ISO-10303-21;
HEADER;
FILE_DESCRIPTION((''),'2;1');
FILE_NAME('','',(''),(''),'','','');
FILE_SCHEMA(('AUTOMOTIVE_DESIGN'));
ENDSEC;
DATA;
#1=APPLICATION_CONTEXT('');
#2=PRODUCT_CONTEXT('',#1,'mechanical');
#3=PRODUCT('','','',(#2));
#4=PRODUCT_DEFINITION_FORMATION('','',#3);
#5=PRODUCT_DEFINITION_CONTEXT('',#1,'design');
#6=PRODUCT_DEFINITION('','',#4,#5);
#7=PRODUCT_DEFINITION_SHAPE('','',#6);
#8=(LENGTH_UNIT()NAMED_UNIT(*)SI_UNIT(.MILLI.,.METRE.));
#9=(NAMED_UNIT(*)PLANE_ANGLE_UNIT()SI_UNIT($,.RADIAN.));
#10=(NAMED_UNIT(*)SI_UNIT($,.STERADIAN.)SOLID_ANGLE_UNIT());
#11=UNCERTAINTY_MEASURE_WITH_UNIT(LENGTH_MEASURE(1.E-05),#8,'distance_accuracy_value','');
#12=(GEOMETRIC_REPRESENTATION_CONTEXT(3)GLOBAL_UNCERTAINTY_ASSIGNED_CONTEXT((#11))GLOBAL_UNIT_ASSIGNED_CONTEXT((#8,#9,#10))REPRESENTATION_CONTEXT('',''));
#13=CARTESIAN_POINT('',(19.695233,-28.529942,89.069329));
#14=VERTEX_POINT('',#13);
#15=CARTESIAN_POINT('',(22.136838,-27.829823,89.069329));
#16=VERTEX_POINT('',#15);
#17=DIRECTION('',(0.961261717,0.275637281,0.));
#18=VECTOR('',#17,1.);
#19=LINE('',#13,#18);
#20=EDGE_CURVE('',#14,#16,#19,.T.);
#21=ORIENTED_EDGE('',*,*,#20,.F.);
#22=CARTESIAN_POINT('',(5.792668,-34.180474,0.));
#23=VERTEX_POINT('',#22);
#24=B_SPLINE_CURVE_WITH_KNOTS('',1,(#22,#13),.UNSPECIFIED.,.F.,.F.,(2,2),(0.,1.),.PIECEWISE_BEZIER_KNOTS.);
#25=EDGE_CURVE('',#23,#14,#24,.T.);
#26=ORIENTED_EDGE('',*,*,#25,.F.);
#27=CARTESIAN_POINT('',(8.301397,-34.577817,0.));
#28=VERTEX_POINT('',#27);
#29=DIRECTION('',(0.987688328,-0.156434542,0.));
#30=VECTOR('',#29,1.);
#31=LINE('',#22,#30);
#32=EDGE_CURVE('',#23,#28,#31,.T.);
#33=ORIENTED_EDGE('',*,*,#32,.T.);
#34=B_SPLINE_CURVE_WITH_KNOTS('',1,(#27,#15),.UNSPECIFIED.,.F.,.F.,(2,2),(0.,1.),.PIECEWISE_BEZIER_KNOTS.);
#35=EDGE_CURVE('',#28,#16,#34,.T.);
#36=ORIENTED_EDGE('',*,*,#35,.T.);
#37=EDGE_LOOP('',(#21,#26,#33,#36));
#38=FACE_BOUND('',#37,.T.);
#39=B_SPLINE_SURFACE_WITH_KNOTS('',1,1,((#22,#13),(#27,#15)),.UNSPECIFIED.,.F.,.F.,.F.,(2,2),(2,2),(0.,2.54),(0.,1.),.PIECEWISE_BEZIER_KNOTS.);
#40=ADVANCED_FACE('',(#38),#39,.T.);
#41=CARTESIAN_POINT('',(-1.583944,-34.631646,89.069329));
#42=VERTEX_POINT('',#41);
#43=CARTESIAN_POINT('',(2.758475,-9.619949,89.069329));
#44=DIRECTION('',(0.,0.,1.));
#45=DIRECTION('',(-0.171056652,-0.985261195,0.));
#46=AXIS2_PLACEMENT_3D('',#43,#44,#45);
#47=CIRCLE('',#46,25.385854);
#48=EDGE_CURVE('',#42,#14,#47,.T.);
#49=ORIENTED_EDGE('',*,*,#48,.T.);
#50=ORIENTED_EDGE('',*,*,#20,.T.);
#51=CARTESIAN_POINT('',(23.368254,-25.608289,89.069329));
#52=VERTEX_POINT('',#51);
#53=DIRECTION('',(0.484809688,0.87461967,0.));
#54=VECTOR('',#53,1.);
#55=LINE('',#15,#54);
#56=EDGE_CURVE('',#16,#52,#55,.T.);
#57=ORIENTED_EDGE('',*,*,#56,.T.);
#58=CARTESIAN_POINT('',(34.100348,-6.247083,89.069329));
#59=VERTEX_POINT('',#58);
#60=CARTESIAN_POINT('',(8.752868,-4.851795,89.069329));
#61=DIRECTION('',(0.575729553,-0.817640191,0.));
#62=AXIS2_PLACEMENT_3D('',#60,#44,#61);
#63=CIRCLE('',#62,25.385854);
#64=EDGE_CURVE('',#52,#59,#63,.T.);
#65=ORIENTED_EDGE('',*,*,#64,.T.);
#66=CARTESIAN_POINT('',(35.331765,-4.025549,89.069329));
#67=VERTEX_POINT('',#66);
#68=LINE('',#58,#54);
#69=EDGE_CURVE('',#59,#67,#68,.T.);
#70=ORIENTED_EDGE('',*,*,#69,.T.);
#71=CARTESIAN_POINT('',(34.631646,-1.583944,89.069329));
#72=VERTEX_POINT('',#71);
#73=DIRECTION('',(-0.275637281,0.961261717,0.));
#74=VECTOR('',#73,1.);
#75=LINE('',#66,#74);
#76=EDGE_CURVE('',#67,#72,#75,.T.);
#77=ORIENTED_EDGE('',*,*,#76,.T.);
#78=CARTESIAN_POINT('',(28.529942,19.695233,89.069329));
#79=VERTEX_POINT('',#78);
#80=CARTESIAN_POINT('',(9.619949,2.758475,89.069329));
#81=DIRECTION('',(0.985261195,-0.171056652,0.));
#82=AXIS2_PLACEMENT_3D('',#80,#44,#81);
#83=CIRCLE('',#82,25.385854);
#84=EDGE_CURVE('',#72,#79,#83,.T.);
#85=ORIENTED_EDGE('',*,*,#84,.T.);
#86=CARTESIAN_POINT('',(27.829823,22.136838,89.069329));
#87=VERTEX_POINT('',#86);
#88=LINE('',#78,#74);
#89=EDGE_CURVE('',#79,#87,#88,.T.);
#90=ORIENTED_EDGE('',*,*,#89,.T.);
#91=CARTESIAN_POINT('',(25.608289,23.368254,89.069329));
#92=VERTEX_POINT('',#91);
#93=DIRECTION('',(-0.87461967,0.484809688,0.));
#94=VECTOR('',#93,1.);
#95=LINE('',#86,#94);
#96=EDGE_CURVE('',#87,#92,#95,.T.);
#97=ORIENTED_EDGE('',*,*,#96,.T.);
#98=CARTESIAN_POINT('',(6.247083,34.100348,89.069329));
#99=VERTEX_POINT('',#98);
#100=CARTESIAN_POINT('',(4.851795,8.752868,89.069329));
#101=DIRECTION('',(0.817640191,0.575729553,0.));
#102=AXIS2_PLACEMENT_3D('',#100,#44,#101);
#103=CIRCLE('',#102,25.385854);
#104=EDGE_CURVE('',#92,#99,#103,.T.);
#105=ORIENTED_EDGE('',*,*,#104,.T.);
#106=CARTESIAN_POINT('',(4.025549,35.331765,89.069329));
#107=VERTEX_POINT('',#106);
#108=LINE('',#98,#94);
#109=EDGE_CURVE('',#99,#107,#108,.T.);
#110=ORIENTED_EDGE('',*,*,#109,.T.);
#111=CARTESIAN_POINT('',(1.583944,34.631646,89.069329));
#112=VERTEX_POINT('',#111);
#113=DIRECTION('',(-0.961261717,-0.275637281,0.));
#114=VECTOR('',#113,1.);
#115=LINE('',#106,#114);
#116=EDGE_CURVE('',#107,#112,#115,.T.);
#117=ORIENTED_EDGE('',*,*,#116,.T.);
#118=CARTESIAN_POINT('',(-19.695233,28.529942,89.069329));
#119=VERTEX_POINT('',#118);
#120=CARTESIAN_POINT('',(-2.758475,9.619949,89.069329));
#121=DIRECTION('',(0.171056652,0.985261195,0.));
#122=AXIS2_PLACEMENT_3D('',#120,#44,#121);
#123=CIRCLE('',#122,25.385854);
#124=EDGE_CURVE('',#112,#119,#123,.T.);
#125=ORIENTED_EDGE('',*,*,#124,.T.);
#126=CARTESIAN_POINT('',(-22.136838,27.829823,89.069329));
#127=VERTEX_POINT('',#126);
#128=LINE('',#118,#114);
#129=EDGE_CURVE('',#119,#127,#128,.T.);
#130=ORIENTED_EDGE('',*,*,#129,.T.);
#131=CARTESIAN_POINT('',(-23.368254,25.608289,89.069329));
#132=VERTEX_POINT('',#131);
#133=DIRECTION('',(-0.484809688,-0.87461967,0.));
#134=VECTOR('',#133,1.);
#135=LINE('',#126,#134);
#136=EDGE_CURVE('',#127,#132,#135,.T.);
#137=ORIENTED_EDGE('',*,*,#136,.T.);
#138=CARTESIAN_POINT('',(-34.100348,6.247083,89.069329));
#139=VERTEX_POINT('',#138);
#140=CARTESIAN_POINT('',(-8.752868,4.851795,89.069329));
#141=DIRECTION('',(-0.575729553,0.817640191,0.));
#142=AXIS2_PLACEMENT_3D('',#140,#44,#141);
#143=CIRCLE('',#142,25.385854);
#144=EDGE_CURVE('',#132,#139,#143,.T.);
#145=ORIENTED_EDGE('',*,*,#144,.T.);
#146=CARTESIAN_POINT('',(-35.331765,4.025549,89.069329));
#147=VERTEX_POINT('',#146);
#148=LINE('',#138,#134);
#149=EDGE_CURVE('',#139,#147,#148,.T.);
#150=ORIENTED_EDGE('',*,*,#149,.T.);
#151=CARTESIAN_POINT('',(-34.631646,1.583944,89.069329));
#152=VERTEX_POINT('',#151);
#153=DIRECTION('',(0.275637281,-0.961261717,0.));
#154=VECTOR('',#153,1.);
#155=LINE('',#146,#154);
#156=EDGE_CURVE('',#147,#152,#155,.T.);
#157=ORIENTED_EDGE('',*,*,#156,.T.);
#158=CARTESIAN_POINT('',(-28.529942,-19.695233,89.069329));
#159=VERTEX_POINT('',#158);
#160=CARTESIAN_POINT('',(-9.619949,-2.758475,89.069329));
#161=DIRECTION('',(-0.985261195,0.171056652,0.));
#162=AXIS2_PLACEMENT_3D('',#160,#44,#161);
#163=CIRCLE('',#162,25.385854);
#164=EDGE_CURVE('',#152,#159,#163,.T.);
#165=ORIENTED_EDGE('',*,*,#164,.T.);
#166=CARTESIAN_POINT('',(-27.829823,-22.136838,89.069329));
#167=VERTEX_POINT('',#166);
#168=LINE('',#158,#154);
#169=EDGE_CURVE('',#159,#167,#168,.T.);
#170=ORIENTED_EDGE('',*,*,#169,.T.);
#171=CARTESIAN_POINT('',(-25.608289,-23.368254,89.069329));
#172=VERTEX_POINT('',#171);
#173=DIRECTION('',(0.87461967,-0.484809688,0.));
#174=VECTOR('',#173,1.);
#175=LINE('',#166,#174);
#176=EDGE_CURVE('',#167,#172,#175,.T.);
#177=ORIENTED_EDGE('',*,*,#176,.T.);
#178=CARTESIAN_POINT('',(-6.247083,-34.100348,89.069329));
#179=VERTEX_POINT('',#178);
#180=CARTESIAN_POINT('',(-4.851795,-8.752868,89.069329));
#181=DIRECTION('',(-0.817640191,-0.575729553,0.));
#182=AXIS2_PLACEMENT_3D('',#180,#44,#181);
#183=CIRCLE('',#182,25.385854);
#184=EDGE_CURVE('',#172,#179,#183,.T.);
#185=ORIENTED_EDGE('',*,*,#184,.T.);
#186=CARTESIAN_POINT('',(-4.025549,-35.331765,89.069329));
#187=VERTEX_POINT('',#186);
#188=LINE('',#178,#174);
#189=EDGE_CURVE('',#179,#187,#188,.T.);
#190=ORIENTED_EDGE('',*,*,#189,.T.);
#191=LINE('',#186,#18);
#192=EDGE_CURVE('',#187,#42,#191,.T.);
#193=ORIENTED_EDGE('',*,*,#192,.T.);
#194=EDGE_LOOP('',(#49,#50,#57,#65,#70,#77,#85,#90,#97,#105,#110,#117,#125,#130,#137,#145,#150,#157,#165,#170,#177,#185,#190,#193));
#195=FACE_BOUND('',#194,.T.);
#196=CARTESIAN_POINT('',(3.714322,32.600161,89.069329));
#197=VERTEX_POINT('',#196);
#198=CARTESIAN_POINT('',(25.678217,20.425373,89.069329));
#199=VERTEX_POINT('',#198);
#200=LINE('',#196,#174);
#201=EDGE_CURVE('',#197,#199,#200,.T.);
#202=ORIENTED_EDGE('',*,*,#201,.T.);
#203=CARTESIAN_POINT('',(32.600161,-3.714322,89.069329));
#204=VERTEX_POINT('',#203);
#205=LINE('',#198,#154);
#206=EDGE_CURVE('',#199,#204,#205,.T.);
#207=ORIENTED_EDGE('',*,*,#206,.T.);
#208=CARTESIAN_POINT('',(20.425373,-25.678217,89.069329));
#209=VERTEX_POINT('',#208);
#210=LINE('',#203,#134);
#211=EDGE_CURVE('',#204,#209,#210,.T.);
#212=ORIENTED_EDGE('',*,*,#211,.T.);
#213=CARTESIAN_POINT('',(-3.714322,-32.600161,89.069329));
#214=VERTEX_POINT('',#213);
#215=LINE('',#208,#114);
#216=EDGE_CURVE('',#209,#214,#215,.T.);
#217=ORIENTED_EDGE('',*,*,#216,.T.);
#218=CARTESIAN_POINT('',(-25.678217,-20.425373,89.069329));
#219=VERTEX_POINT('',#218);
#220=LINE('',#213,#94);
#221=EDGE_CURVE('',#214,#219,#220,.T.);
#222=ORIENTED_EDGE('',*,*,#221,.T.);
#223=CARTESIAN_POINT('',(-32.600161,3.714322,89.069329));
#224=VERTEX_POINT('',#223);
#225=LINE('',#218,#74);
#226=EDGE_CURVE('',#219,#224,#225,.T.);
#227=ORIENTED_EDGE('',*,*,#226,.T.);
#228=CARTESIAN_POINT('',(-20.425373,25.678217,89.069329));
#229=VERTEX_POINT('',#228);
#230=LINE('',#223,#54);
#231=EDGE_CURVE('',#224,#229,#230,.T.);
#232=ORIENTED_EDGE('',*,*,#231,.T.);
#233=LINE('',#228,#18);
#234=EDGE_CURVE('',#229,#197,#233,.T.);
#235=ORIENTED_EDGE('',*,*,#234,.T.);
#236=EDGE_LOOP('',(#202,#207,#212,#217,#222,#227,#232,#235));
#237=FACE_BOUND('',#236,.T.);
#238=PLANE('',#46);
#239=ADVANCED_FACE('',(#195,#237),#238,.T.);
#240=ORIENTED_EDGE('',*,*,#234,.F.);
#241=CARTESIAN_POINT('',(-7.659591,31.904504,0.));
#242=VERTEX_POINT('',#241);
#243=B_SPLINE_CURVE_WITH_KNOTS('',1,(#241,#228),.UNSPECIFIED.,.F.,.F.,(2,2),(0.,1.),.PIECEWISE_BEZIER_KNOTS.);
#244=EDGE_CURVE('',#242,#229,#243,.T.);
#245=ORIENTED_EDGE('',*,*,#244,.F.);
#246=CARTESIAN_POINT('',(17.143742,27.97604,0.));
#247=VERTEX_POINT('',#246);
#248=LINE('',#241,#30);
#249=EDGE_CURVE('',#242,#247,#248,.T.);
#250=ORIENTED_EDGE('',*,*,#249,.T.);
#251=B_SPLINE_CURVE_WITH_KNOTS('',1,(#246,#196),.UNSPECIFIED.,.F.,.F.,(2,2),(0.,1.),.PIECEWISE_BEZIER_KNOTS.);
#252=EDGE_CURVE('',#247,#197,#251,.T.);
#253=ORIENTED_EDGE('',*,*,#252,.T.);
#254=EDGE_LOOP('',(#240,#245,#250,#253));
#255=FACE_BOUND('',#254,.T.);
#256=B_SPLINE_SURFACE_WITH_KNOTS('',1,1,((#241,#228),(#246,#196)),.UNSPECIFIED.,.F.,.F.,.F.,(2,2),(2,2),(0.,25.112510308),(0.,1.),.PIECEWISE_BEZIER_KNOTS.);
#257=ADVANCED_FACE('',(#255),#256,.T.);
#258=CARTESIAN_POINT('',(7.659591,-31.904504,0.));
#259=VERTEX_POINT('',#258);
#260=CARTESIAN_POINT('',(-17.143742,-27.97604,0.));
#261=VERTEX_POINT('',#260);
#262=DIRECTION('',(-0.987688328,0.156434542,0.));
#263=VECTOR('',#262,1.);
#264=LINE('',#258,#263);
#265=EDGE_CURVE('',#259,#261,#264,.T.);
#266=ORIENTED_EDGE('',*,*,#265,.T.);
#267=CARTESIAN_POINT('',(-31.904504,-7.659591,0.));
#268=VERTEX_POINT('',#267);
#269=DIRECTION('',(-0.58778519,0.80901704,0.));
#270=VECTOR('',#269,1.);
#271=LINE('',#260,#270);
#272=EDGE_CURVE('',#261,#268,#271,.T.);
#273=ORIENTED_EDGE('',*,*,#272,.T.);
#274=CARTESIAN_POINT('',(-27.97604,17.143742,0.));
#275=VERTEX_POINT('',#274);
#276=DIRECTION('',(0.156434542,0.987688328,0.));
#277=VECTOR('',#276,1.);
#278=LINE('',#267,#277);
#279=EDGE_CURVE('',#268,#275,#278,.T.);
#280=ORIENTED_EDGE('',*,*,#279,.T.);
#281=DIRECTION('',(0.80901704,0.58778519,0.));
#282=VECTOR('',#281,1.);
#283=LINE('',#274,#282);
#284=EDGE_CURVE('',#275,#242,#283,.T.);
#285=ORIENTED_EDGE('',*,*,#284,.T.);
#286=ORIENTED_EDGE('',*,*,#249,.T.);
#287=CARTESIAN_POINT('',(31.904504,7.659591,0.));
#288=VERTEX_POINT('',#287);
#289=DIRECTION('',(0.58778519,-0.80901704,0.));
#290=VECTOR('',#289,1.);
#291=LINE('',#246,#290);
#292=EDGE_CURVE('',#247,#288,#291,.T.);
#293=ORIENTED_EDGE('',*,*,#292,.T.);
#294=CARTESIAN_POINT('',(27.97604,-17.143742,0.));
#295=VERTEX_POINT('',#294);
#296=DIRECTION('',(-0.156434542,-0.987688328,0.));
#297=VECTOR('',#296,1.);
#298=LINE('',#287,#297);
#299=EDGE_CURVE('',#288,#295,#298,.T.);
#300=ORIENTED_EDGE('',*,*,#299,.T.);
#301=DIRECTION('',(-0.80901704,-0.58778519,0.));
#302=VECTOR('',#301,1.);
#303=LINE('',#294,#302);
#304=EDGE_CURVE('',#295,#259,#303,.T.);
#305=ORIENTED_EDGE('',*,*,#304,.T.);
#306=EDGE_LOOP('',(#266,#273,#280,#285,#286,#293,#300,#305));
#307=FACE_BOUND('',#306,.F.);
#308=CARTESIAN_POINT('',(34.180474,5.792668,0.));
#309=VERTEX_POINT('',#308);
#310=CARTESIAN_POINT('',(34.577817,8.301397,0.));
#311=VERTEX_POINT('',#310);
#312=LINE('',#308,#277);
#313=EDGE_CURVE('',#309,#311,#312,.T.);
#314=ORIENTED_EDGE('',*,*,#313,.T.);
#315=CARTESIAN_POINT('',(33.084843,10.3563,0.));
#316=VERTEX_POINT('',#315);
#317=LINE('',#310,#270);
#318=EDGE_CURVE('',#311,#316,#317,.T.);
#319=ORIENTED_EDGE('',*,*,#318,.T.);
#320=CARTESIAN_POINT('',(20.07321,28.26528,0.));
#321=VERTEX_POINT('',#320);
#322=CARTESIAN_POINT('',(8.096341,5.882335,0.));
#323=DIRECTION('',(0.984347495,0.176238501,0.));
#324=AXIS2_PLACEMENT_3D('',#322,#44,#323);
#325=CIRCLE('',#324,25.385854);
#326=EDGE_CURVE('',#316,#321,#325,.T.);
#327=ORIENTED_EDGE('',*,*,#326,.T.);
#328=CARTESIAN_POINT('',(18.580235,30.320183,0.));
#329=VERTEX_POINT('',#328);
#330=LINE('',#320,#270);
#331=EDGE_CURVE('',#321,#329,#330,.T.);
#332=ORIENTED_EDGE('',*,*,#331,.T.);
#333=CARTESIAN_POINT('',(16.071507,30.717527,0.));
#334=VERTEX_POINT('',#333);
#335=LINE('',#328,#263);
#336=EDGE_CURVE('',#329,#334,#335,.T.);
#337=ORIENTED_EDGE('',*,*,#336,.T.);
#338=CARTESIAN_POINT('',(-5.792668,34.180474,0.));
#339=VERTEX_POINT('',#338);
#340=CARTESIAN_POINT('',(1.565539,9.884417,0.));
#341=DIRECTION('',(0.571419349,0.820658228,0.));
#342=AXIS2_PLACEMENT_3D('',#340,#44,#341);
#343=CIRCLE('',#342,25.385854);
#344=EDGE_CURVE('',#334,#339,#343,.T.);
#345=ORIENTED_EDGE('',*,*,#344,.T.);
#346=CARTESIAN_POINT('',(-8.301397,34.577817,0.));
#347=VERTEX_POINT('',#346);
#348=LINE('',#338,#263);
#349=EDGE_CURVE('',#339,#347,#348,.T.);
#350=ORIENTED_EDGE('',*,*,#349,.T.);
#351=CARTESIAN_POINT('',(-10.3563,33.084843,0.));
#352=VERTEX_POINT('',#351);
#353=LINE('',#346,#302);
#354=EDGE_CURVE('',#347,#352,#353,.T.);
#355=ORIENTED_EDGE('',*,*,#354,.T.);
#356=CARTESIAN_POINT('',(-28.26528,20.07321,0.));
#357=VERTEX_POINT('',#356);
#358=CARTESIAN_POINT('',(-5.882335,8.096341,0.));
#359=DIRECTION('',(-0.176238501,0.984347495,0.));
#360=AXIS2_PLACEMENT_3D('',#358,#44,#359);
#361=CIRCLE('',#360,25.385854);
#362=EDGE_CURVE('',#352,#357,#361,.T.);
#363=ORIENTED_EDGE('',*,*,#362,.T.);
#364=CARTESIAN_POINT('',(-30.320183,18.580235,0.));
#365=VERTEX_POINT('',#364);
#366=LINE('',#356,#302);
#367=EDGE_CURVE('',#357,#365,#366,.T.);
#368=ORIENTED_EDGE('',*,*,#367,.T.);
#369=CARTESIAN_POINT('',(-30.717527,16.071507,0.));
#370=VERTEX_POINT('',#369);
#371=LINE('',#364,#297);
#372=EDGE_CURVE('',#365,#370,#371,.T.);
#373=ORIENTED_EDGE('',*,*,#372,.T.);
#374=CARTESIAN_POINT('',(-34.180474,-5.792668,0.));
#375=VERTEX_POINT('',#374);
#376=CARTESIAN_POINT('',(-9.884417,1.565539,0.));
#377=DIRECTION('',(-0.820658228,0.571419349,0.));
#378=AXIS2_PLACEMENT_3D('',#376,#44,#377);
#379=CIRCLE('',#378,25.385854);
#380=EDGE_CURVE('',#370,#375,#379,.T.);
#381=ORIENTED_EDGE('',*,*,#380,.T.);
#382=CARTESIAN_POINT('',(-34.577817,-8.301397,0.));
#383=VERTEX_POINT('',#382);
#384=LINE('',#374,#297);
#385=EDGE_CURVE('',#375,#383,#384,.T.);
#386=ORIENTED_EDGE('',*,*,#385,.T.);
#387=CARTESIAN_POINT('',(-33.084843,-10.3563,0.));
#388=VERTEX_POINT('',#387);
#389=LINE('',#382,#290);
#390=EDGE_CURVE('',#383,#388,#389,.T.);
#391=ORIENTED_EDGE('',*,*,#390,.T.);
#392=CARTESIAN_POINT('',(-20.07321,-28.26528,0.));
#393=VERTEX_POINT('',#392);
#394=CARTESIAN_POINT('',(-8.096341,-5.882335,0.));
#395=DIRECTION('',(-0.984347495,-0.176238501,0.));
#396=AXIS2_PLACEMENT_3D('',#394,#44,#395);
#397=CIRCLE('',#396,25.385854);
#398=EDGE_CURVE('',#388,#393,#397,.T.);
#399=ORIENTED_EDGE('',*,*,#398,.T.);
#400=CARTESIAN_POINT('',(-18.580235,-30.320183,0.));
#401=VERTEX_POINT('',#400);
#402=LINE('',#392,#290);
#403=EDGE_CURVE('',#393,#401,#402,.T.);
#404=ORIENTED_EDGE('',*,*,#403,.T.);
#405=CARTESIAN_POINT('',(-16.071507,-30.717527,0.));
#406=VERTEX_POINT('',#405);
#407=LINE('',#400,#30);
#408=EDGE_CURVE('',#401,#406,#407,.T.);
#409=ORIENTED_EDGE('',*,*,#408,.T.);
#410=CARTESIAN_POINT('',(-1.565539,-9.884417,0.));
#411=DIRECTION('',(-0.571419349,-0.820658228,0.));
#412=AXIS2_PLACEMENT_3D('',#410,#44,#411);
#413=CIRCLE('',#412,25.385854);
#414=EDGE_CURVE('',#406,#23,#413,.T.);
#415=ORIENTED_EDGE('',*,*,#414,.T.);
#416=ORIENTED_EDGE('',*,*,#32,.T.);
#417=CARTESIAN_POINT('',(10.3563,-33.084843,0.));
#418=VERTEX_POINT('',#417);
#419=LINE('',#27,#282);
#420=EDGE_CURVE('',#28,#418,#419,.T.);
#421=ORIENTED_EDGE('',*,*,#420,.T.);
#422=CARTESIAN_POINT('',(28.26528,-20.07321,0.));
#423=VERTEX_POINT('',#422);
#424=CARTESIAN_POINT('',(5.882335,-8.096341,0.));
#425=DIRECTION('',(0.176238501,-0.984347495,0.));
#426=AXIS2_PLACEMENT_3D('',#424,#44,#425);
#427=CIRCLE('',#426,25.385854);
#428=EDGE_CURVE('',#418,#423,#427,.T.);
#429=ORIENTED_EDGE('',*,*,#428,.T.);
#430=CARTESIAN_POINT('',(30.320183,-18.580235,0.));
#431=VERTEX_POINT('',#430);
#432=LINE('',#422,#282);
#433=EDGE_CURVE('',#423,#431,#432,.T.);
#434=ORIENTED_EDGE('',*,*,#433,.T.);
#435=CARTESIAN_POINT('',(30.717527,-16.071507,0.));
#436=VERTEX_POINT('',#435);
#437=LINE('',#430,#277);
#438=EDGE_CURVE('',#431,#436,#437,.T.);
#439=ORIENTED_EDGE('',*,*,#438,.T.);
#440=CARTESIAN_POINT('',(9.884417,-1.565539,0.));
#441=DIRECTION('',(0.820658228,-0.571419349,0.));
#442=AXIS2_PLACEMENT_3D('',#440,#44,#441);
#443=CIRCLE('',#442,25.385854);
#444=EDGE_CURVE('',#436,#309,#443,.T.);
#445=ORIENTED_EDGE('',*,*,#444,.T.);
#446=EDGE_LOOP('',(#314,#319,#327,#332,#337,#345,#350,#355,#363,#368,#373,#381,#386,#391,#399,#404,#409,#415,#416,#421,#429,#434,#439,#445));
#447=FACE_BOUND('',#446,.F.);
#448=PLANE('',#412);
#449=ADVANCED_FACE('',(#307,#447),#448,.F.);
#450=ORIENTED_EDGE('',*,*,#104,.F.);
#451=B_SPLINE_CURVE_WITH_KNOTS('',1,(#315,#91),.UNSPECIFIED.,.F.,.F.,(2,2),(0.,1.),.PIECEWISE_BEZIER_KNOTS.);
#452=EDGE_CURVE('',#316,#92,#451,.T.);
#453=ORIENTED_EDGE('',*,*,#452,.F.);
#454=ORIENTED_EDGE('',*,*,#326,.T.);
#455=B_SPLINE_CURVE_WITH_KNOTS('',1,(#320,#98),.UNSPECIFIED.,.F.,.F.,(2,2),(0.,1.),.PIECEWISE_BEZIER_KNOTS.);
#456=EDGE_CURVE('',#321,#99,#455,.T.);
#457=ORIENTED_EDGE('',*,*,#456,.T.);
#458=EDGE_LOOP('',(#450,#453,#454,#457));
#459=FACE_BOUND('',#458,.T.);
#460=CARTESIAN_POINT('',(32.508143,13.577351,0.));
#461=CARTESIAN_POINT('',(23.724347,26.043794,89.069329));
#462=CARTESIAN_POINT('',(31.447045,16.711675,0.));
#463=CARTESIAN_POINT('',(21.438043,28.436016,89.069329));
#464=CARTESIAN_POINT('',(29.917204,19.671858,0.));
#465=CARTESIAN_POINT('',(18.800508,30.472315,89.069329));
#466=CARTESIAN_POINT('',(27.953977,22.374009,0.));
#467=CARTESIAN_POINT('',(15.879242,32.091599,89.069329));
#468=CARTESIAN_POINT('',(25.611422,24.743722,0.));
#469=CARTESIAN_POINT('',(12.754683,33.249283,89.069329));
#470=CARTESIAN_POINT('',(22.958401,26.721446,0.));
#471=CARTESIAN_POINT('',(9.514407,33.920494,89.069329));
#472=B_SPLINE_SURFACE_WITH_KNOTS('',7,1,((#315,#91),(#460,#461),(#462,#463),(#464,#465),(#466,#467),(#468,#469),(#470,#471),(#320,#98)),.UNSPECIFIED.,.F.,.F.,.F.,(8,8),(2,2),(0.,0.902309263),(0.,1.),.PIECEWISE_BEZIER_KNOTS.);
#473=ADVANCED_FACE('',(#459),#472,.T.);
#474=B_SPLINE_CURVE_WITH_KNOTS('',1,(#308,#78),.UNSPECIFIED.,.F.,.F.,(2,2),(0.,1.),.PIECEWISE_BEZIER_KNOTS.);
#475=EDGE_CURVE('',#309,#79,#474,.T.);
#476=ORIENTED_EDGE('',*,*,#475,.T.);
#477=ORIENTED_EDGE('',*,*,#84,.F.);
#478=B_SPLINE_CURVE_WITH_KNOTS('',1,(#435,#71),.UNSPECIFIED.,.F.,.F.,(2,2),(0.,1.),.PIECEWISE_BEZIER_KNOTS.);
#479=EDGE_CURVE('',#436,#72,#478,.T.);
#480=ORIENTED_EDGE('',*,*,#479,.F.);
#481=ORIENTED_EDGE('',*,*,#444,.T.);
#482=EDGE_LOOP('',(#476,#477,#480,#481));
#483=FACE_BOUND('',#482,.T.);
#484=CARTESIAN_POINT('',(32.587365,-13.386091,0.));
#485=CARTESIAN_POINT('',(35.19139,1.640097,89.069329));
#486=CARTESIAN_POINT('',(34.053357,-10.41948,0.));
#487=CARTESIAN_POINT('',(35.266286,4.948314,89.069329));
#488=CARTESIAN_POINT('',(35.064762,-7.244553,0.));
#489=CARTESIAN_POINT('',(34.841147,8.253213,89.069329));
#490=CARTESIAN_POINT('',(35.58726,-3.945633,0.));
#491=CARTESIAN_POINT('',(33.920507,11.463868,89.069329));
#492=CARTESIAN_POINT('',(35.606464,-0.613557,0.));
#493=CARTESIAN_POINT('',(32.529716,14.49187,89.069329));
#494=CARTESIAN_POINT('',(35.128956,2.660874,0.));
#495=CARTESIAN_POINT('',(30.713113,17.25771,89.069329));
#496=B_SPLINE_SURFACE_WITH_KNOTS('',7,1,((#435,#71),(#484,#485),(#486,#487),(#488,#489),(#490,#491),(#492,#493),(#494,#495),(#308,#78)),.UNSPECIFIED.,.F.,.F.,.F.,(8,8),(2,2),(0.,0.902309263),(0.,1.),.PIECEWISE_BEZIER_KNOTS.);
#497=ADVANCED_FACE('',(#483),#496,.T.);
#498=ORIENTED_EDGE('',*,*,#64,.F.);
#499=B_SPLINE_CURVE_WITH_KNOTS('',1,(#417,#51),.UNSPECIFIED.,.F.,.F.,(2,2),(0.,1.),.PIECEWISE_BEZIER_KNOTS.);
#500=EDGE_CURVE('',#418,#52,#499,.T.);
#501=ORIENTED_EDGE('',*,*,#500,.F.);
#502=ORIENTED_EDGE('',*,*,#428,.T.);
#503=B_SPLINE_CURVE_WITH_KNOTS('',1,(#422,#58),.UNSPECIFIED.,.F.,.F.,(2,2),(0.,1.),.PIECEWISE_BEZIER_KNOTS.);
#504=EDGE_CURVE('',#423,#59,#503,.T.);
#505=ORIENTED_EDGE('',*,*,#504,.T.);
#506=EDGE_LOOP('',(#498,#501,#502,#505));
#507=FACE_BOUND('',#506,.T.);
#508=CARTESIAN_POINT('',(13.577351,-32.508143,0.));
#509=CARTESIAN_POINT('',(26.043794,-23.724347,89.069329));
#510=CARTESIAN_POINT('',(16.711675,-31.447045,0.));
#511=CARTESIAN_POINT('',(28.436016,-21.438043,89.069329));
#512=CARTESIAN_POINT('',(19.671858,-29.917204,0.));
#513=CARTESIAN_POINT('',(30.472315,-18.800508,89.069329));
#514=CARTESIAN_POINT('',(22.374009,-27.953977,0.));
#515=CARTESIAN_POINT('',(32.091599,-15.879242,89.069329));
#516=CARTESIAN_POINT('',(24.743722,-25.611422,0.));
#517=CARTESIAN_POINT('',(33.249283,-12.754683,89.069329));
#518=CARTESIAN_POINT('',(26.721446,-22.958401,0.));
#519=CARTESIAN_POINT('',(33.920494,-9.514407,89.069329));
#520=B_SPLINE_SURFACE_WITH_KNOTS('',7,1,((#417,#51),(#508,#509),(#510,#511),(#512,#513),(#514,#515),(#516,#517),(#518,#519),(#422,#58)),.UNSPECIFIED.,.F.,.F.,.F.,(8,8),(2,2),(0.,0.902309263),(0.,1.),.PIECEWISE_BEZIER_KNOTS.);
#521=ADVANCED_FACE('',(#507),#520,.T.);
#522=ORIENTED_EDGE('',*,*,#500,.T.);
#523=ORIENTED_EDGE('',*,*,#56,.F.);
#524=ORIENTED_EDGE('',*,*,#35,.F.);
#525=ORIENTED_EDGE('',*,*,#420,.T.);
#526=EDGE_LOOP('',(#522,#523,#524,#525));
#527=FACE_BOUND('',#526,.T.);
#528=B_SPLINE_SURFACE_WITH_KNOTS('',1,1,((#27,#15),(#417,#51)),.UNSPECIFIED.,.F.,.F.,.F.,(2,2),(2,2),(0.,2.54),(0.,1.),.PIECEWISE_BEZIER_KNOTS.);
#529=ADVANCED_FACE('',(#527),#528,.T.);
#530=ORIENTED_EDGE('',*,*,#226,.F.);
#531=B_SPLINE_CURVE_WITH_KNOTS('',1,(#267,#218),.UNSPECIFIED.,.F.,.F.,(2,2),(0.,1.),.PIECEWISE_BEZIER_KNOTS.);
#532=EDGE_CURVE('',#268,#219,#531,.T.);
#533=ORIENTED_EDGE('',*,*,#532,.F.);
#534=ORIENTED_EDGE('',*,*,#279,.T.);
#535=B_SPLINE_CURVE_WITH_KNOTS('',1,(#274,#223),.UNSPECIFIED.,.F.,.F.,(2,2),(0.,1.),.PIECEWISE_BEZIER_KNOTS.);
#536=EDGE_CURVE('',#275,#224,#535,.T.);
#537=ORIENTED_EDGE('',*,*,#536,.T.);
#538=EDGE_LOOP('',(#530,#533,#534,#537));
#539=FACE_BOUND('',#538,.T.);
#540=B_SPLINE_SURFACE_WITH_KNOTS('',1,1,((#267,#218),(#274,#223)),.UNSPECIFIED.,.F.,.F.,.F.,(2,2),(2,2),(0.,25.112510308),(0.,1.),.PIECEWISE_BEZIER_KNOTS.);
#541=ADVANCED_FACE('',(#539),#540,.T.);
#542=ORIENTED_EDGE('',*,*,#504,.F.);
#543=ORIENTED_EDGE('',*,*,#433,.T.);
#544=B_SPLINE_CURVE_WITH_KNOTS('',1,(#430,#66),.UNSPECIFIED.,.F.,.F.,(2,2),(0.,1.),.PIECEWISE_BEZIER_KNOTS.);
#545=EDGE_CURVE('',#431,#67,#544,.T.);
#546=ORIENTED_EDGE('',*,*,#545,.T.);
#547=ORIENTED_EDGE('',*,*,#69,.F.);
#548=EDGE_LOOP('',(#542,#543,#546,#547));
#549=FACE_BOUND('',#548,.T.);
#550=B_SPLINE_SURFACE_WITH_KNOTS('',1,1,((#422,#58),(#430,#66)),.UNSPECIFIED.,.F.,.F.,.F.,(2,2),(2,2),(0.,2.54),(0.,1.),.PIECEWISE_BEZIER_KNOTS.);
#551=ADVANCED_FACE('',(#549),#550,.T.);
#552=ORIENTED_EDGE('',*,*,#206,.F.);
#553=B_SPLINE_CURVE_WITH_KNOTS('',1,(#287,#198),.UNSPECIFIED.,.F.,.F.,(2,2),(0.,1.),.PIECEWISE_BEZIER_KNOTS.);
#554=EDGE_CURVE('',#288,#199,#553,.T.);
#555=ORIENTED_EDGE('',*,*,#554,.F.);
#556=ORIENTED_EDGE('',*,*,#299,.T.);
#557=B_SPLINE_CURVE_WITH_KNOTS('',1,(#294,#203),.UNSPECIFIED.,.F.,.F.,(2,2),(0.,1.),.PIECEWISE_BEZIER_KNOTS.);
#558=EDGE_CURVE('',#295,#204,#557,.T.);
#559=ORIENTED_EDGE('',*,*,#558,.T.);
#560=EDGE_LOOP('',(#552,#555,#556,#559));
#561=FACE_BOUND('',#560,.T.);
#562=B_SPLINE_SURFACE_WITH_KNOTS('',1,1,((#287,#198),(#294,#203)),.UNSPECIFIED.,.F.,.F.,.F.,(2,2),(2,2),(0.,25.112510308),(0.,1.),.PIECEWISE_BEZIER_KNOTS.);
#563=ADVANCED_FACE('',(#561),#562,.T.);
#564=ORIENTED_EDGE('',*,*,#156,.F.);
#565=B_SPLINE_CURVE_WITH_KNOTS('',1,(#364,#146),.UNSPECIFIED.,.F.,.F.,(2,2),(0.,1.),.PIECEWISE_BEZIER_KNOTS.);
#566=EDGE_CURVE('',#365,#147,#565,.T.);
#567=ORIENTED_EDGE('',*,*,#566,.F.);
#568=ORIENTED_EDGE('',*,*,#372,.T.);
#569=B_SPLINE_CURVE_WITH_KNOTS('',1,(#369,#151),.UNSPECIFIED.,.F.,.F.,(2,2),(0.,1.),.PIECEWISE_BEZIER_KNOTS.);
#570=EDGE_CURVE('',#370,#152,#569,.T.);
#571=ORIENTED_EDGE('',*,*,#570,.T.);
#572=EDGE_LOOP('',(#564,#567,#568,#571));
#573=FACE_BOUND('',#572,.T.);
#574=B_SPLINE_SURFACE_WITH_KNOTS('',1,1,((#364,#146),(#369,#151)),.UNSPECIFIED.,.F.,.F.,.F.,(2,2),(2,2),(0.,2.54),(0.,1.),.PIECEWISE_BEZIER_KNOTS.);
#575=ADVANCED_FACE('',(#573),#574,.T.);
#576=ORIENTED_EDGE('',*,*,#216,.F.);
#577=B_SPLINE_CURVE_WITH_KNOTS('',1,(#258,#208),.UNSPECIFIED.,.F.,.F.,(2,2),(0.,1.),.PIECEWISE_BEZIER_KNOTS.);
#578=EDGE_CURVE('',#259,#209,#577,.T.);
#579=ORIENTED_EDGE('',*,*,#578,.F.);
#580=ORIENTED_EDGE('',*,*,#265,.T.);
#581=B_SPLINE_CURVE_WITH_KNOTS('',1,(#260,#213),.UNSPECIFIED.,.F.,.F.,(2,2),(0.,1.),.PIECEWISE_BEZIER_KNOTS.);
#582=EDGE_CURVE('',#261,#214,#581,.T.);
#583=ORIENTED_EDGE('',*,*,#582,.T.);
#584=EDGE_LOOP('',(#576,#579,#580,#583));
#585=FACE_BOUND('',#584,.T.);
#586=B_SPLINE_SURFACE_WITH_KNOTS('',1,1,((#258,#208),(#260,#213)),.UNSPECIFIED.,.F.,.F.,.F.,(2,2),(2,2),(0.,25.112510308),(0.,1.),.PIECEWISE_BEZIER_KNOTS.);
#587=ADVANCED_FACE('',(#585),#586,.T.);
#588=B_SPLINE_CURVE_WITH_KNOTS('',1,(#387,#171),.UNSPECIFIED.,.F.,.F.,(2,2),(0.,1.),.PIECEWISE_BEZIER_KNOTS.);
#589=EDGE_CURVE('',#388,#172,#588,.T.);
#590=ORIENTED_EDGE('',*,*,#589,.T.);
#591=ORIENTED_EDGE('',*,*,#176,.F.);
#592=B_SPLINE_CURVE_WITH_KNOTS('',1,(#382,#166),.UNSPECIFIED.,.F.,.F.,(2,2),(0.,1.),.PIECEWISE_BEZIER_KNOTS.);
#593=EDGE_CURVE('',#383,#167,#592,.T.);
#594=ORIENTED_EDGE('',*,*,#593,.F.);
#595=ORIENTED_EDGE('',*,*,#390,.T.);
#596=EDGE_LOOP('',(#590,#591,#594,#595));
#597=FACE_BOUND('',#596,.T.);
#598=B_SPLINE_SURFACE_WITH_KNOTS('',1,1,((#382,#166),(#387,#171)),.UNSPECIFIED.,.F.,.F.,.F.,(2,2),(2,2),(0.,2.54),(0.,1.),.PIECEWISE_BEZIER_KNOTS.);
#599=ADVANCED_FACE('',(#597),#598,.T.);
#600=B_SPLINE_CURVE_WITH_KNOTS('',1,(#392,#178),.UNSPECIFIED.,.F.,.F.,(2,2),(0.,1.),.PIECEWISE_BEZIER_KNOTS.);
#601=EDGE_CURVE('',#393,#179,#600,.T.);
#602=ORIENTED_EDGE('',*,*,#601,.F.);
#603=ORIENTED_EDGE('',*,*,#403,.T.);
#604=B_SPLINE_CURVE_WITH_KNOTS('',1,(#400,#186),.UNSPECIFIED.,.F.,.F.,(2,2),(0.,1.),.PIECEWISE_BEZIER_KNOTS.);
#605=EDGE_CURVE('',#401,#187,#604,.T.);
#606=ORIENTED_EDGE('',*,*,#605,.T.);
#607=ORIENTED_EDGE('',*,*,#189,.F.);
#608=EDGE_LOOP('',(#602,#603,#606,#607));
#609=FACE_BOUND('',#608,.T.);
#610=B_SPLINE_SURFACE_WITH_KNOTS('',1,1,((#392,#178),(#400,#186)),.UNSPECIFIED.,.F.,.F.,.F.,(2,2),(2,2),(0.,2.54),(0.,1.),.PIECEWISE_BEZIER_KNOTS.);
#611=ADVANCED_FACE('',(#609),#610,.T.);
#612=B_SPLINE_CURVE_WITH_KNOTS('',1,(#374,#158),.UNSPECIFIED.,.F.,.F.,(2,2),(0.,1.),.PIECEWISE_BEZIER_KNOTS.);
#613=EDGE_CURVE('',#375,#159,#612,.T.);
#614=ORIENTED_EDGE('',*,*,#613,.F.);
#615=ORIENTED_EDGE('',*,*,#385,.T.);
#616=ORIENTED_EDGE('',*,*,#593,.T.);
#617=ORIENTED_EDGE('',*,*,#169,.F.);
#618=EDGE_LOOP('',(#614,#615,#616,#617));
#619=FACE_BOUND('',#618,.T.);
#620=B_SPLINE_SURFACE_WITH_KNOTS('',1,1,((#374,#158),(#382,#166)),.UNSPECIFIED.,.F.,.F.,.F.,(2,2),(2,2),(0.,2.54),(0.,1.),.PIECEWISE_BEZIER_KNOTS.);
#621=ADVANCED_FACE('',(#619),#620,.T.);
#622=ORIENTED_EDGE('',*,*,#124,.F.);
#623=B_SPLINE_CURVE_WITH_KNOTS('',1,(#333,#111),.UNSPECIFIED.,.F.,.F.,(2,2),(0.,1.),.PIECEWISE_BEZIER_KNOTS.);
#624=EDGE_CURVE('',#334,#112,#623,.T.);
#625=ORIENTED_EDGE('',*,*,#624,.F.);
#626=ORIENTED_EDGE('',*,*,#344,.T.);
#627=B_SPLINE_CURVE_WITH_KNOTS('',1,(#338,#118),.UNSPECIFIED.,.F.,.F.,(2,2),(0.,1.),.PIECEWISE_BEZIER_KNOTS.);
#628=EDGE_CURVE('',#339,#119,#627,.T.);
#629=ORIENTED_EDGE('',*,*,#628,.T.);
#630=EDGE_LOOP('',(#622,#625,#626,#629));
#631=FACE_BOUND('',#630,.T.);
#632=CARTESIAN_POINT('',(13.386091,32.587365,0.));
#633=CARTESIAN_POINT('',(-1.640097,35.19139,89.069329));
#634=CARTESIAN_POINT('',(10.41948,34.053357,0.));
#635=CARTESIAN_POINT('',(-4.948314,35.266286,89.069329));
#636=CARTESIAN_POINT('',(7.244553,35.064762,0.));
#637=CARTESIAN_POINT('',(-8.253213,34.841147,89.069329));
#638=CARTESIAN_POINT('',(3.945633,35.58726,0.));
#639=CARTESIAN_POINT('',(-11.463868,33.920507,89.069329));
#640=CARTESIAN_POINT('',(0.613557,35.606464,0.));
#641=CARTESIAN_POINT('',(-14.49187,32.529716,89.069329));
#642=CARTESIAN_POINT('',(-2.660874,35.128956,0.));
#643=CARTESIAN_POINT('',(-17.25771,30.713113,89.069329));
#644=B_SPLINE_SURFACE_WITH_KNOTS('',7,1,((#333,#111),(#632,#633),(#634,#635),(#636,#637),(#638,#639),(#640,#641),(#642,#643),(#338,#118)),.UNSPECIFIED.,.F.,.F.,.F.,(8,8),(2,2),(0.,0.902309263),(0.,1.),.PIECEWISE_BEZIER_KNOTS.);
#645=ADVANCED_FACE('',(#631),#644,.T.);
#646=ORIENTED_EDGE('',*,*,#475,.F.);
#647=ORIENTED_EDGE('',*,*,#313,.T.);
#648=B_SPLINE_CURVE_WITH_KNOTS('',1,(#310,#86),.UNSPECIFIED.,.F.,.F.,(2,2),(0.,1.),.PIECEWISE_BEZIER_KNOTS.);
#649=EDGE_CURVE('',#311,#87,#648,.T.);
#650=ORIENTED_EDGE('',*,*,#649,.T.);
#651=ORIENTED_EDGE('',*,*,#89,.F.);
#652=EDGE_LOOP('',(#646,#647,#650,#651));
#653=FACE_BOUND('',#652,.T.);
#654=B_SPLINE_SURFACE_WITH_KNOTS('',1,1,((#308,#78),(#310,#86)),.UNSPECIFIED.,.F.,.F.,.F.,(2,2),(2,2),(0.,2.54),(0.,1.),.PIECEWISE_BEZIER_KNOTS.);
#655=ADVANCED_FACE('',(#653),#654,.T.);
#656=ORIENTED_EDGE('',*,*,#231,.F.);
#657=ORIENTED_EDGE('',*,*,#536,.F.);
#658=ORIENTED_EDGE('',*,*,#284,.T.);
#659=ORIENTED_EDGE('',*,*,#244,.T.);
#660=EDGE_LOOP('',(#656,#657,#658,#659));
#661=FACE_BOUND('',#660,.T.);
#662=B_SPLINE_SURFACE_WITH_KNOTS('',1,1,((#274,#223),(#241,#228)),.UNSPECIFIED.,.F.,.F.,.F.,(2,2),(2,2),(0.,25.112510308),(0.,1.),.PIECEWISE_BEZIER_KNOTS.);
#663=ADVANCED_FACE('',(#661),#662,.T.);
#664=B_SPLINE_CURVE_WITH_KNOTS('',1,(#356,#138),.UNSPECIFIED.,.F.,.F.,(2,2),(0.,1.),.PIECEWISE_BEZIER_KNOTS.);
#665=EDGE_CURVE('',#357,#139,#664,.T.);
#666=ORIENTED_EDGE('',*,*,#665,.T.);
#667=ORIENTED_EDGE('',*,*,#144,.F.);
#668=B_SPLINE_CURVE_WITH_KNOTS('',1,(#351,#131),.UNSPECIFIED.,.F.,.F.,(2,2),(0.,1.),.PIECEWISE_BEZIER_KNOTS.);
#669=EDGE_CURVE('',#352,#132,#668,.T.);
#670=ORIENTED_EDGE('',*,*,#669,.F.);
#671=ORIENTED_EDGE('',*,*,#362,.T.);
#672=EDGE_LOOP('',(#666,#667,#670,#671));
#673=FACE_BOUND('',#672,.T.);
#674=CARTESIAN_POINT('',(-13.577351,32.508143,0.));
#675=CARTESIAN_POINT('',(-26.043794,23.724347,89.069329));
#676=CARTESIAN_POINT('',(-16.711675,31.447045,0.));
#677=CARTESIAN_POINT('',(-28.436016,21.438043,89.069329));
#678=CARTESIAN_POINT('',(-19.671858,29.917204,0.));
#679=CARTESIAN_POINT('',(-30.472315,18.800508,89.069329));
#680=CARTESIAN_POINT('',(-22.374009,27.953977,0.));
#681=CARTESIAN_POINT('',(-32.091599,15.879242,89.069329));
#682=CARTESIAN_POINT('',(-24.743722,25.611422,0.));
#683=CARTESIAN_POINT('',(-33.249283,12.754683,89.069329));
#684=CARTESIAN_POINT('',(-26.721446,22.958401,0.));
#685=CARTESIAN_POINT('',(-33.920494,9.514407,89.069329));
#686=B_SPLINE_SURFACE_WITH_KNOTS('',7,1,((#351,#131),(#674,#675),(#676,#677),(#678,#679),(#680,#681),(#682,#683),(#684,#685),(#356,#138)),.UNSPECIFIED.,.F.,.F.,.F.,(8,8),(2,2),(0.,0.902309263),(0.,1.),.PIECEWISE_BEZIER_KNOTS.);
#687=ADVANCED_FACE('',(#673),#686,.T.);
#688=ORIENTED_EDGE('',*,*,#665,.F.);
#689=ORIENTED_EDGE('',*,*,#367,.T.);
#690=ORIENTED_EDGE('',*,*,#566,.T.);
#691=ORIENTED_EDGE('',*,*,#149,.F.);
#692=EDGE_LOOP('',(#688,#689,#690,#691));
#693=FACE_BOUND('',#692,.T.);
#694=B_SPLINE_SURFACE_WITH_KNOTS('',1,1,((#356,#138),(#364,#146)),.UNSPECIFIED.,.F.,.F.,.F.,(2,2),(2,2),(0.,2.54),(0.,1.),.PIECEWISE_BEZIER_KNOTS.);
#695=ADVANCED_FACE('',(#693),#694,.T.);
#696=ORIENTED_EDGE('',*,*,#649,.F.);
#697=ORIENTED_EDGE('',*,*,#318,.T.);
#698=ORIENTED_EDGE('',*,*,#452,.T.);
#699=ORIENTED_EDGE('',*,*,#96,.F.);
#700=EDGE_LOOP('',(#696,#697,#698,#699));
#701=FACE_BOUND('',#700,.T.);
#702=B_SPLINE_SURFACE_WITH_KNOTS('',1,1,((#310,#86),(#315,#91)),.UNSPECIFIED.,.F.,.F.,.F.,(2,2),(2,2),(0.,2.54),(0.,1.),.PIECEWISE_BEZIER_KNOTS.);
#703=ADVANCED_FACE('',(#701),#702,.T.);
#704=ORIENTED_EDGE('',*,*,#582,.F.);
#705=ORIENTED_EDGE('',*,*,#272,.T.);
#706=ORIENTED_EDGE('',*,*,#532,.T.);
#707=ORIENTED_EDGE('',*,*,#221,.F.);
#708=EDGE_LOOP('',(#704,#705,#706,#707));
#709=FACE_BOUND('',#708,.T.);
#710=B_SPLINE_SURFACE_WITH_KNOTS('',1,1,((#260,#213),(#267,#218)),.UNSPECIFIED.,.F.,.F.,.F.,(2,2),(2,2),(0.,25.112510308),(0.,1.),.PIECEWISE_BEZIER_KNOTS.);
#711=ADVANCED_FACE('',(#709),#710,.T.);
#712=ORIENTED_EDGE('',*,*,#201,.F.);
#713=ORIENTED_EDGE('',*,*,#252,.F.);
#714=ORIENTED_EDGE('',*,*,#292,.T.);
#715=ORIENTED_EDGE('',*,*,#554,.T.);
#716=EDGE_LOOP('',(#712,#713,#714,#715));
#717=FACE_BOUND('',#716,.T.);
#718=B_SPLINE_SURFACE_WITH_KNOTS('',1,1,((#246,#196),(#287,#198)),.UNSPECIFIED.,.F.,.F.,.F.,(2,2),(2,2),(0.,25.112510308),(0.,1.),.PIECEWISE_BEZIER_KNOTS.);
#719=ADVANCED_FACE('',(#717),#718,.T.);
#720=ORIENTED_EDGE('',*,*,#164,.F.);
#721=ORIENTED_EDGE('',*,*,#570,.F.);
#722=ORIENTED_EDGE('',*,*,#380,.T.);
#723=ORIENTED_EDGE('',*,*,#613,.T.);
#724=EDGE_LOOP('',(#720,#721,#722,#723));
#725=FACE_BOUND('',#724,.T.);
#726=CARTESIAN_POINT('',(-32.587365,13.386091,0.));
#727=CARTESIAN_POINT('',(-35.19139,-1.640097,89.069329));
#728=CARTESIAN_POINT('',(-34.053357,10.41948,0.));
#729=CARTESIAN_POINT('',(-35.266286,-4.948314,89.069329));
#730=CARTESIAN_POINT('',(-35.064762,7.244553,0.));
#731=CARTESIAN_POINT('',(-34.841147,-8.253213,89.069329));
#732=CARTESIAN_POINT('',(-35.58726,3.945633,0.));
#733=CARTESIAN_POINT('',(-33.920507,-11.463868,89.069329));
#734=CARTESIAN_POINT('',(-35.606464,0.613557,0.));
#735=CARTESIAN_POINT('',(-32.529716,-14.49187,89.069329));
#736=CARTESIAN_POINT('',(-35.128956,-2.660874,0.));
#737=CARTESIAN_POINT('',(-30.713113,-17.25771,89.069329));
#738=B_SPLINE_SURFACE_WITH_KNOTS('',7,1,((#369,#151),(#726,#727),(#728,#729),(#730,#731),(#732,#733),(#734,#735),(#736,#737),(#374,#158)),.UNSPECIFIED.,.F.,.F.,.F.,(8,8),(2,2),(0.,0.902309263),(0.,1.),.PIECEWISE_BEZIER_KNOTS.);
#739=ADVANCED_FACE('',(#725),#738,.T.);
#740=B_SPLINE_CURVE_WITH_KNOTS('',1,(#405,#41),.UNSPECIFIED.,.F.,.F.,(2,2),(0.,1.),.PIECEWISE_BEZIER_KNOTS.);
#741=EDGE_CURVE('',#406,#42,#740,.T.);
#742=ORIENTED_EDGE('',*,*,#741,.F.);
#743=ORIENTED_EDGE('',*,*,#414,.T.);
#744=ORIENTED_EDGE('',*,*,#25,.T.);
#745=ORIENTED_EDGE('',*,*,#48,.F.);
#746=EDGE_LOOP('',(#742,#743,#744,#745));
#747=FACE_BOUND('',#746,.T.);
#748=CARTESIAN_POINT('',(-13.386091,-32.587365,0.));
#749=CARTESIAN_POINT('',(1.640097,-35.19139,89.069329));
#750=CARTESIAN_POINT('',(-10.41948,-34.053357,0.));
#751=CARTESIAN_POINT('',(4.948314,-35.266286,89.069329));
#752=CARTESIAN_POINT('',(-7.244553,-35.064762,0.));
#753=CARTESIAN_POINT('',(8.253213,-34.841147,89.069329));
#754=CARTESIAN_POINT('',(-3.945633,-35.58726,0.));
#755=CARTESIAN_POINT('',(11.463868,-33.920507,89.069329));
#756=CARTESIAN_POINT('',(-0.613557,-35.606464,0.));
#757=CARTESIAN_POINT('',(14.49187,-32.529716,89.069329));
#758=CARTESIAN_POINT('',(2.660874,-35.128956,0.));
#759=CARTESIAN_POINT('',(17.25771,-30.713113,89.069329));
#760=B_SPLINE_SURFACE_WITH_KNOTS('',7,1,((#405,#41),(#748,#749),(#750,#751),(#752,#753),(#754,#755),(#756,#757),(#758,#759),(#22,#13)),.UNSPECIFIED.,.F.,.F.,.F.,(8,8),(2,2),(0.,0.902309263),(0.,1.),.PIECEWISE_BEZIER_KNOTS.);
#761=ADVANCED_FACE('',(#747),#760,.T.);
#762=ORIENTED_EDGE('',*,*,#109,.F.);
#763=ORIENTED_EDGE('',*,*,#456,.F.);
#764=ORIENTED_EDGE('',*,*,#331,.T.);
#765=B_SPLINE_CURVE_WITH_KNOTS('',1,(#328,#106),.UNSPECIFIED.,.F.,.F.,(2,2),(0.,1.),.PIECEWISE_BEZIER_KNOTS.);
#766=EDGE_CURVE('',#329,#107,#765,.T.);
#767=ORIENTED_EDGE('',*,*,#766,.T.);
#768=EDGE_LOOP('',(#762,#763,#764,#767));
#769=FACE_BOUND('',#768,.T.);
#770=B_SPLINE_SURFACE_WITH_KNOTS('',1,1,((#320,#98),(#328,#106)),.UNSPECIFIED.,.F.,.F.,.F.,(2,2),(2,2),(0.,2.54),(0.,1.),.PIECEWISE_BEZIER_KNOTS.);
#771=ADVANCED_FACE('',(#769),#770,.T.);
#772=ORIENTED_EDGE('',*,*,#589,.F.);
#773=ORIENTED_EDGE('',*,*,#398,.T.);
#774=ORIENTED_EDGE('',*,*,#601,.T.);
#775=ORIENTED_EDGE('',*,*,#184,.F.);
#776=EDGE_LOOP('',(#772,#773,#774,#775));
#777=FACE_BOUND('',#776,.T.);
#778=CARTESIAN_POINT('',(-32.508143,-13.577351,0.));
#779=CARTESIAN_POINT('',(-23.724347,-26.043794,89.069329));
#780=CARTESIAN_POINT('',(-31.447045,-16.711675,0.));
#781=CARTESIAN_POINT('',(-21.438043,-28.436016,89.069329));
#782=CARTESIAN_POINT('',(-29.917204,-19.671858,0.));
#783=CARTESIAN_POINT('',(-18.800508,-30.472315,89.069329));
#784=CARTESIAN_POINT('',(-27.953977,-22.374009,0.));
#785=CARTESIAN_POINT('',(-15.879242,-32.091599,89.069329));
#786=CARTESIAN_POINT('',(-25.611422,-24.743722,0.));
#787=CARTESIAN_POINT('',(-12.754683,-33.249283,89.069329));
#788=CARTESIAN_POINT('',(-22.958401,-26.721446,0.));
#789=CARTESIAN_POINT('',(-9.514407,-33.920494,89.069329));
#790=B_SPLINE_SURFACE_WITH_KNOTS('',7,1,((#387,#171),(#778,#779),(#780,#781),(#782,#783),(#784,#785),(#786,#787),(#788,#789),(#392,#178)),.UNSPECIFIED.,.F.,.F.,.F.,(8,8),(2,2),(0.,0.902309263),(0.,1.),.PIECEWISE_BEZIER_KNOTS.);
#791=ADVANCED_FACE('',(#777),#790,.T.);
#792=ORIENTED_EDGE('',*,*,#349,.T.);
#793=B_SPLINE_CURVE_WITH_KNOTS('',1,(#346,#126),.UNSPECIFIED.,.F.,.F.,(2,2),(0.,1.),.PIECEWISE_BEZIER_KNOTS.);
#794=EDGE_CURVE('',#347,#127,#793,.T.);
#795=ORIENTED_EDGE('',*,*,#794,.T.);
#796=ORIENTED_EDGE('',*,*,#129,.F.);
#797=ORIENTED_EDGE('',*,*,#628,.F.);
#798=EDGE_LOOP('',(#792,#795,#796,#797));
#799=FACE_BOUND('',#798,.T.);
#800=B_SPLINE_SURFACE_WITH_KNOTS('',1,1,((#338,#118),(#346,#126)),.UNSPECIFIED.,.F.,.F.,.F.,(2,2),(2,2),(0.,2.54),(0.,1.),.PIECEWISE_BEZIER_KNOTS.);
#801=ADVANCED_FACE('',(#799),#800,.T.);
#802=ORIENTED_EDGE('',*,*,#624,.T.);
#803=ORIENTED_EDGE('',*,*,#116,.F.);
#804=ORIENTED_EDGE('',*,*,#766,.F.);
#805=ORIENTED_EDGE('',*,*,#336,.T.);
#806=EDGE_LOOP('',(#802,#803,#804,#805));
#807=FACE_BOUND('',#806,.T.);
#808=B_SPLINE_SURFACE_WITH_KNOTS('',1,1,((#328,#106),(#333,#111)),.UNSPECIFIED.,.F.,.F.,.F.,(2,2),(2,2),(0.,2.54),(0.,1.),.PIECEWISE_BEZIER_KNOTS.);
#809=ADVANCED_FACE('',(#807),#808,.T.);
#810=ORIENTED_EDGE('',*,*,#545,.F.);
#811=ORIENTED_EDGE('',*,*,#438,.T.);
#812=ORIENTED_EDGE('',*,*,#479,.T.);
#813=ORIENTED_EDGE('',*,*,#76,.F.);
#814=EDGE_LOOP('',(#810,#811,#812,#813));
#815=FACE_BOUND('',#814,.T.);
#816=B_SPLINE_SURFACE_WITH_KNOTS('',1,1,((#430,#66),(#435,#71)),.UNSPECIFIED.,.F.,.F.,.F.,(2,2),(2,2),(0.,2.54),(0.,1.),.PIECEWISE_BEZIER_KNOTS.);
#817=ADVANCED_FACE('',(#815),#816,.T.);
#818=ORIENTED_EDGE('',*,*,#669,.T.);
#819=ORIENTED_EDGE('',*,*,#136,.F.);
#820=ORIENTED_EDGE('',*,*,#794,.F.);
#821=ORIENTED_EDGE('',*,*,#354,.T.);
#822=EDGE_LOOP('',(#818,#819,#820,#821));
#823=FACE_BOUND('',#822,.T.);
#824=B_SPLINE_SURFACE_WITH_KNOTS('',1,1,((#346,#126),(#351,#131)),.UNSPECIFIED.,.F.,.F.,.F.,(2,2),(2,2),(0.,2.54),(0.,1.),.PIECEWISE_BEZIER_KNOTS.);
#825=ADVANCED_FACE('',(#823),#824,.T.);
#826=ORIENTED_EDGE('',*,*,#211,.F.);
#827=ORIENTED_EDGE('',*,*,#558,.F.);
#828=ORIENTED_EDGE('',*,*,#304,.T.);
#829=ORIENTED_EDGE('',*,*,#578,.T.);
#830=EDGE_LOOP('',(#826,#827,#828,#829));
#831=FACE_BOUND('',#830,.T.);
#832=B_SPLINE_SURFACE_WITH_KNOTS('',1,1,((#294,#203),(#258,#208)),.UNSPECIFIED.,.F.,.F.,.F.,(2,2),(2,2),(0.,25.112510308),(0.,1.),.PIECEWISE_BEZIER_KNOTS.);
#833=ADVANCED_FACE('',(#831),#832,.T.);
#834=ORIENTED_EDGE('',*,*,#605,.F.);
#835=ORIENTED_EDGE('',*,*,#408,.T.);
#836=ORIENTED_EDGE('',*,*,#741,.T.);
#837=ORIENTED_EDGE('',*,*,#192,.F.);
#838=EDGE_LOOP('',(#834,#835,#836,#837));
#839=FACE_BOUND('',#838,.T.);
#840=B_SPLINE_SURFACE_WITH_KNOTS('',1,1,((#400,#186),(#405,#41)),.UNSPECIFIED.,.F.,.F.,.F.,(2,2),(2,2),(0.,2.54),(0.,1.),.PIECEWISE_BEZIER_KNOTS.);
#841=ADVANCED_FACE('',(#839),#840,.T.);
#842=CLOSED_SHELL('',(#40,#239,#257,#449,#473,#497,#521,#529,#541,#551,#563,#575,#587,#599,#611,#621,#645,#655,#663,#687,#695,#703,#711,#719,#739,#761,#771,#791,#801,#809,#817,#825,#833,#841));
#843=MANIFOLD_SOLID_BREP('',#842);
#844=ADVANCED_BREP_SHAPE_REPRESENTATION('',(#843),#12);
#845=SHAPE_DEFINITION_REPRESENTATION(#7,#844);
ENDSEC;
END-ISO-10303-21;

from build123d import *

# Parameters (mm, degrees)
F5_COUNT = 8
F5_ANGLE = 315


with BuildPart() as f4:
    # F0 (on Top) → F4 section 0
    with BuildSketch(Plane.XY):
        with BuildLine():
            Line((7.6595910871, -31.9045038767), (8.3013966604, -34.5778173951))
            Line((8.3013966604, -34.5778173951), (10.3562999417, -33.0848430134))
            ThreePointArc((10.3562999417, -33.0848430134), (20.8037642272, -28.6339296223), (28.2652797493, -20.0732096686))
            Line((28.2652797493, -20.0732096686), (30.3201830306, -18.5802352869))
            Line((30.3201830306, -18.5802352869), (27.9760398404, -17.1437422427))
            Line((27.9760398404, -17.1437422427), (7.6595910871, -31.9045038767))
        make_face()
    # F3 (on plane+point) → F4 section 1
    with BuildSketch(Plane.XY.offset(89.0693292022)):
        with BuildLine():
            Line((35.3317647247, -4.0255488774), (32.6001613042, -3.7143217658))
            Line((32.6001613042, -3.7143217658), (20.4253730178, -25.6782172341))
            Line((20.4253730178, -25.6782172341), (22.1368375189, -27.8298233373))
            Line((22.1368375189, -27.8298233373), (23.3682541263, -25.6082893765))
            ThreePointArc((23.3682541263, -25.6082893765), (30.9558350826, -17.1591027148), (34.1003481172, -6.2470828382))
            Line((34.1003481172, -6.2470828382), (35.3317647247, -4.0255488774))
        make_face()
    loft()

    # F5: F4 ×8 about axis
    f5_axis = Axis((0, 0, 44.5346646011), (0, 0, 1))


with BuildPart() as f4_1:
    add(f4.part)
    for i in range(1, F5_COUNT):
        add(f4.part.rotate(f5_axis, i * F5_ANGLE / (F5_COUNT - 1)))


solid = f4_1.part
